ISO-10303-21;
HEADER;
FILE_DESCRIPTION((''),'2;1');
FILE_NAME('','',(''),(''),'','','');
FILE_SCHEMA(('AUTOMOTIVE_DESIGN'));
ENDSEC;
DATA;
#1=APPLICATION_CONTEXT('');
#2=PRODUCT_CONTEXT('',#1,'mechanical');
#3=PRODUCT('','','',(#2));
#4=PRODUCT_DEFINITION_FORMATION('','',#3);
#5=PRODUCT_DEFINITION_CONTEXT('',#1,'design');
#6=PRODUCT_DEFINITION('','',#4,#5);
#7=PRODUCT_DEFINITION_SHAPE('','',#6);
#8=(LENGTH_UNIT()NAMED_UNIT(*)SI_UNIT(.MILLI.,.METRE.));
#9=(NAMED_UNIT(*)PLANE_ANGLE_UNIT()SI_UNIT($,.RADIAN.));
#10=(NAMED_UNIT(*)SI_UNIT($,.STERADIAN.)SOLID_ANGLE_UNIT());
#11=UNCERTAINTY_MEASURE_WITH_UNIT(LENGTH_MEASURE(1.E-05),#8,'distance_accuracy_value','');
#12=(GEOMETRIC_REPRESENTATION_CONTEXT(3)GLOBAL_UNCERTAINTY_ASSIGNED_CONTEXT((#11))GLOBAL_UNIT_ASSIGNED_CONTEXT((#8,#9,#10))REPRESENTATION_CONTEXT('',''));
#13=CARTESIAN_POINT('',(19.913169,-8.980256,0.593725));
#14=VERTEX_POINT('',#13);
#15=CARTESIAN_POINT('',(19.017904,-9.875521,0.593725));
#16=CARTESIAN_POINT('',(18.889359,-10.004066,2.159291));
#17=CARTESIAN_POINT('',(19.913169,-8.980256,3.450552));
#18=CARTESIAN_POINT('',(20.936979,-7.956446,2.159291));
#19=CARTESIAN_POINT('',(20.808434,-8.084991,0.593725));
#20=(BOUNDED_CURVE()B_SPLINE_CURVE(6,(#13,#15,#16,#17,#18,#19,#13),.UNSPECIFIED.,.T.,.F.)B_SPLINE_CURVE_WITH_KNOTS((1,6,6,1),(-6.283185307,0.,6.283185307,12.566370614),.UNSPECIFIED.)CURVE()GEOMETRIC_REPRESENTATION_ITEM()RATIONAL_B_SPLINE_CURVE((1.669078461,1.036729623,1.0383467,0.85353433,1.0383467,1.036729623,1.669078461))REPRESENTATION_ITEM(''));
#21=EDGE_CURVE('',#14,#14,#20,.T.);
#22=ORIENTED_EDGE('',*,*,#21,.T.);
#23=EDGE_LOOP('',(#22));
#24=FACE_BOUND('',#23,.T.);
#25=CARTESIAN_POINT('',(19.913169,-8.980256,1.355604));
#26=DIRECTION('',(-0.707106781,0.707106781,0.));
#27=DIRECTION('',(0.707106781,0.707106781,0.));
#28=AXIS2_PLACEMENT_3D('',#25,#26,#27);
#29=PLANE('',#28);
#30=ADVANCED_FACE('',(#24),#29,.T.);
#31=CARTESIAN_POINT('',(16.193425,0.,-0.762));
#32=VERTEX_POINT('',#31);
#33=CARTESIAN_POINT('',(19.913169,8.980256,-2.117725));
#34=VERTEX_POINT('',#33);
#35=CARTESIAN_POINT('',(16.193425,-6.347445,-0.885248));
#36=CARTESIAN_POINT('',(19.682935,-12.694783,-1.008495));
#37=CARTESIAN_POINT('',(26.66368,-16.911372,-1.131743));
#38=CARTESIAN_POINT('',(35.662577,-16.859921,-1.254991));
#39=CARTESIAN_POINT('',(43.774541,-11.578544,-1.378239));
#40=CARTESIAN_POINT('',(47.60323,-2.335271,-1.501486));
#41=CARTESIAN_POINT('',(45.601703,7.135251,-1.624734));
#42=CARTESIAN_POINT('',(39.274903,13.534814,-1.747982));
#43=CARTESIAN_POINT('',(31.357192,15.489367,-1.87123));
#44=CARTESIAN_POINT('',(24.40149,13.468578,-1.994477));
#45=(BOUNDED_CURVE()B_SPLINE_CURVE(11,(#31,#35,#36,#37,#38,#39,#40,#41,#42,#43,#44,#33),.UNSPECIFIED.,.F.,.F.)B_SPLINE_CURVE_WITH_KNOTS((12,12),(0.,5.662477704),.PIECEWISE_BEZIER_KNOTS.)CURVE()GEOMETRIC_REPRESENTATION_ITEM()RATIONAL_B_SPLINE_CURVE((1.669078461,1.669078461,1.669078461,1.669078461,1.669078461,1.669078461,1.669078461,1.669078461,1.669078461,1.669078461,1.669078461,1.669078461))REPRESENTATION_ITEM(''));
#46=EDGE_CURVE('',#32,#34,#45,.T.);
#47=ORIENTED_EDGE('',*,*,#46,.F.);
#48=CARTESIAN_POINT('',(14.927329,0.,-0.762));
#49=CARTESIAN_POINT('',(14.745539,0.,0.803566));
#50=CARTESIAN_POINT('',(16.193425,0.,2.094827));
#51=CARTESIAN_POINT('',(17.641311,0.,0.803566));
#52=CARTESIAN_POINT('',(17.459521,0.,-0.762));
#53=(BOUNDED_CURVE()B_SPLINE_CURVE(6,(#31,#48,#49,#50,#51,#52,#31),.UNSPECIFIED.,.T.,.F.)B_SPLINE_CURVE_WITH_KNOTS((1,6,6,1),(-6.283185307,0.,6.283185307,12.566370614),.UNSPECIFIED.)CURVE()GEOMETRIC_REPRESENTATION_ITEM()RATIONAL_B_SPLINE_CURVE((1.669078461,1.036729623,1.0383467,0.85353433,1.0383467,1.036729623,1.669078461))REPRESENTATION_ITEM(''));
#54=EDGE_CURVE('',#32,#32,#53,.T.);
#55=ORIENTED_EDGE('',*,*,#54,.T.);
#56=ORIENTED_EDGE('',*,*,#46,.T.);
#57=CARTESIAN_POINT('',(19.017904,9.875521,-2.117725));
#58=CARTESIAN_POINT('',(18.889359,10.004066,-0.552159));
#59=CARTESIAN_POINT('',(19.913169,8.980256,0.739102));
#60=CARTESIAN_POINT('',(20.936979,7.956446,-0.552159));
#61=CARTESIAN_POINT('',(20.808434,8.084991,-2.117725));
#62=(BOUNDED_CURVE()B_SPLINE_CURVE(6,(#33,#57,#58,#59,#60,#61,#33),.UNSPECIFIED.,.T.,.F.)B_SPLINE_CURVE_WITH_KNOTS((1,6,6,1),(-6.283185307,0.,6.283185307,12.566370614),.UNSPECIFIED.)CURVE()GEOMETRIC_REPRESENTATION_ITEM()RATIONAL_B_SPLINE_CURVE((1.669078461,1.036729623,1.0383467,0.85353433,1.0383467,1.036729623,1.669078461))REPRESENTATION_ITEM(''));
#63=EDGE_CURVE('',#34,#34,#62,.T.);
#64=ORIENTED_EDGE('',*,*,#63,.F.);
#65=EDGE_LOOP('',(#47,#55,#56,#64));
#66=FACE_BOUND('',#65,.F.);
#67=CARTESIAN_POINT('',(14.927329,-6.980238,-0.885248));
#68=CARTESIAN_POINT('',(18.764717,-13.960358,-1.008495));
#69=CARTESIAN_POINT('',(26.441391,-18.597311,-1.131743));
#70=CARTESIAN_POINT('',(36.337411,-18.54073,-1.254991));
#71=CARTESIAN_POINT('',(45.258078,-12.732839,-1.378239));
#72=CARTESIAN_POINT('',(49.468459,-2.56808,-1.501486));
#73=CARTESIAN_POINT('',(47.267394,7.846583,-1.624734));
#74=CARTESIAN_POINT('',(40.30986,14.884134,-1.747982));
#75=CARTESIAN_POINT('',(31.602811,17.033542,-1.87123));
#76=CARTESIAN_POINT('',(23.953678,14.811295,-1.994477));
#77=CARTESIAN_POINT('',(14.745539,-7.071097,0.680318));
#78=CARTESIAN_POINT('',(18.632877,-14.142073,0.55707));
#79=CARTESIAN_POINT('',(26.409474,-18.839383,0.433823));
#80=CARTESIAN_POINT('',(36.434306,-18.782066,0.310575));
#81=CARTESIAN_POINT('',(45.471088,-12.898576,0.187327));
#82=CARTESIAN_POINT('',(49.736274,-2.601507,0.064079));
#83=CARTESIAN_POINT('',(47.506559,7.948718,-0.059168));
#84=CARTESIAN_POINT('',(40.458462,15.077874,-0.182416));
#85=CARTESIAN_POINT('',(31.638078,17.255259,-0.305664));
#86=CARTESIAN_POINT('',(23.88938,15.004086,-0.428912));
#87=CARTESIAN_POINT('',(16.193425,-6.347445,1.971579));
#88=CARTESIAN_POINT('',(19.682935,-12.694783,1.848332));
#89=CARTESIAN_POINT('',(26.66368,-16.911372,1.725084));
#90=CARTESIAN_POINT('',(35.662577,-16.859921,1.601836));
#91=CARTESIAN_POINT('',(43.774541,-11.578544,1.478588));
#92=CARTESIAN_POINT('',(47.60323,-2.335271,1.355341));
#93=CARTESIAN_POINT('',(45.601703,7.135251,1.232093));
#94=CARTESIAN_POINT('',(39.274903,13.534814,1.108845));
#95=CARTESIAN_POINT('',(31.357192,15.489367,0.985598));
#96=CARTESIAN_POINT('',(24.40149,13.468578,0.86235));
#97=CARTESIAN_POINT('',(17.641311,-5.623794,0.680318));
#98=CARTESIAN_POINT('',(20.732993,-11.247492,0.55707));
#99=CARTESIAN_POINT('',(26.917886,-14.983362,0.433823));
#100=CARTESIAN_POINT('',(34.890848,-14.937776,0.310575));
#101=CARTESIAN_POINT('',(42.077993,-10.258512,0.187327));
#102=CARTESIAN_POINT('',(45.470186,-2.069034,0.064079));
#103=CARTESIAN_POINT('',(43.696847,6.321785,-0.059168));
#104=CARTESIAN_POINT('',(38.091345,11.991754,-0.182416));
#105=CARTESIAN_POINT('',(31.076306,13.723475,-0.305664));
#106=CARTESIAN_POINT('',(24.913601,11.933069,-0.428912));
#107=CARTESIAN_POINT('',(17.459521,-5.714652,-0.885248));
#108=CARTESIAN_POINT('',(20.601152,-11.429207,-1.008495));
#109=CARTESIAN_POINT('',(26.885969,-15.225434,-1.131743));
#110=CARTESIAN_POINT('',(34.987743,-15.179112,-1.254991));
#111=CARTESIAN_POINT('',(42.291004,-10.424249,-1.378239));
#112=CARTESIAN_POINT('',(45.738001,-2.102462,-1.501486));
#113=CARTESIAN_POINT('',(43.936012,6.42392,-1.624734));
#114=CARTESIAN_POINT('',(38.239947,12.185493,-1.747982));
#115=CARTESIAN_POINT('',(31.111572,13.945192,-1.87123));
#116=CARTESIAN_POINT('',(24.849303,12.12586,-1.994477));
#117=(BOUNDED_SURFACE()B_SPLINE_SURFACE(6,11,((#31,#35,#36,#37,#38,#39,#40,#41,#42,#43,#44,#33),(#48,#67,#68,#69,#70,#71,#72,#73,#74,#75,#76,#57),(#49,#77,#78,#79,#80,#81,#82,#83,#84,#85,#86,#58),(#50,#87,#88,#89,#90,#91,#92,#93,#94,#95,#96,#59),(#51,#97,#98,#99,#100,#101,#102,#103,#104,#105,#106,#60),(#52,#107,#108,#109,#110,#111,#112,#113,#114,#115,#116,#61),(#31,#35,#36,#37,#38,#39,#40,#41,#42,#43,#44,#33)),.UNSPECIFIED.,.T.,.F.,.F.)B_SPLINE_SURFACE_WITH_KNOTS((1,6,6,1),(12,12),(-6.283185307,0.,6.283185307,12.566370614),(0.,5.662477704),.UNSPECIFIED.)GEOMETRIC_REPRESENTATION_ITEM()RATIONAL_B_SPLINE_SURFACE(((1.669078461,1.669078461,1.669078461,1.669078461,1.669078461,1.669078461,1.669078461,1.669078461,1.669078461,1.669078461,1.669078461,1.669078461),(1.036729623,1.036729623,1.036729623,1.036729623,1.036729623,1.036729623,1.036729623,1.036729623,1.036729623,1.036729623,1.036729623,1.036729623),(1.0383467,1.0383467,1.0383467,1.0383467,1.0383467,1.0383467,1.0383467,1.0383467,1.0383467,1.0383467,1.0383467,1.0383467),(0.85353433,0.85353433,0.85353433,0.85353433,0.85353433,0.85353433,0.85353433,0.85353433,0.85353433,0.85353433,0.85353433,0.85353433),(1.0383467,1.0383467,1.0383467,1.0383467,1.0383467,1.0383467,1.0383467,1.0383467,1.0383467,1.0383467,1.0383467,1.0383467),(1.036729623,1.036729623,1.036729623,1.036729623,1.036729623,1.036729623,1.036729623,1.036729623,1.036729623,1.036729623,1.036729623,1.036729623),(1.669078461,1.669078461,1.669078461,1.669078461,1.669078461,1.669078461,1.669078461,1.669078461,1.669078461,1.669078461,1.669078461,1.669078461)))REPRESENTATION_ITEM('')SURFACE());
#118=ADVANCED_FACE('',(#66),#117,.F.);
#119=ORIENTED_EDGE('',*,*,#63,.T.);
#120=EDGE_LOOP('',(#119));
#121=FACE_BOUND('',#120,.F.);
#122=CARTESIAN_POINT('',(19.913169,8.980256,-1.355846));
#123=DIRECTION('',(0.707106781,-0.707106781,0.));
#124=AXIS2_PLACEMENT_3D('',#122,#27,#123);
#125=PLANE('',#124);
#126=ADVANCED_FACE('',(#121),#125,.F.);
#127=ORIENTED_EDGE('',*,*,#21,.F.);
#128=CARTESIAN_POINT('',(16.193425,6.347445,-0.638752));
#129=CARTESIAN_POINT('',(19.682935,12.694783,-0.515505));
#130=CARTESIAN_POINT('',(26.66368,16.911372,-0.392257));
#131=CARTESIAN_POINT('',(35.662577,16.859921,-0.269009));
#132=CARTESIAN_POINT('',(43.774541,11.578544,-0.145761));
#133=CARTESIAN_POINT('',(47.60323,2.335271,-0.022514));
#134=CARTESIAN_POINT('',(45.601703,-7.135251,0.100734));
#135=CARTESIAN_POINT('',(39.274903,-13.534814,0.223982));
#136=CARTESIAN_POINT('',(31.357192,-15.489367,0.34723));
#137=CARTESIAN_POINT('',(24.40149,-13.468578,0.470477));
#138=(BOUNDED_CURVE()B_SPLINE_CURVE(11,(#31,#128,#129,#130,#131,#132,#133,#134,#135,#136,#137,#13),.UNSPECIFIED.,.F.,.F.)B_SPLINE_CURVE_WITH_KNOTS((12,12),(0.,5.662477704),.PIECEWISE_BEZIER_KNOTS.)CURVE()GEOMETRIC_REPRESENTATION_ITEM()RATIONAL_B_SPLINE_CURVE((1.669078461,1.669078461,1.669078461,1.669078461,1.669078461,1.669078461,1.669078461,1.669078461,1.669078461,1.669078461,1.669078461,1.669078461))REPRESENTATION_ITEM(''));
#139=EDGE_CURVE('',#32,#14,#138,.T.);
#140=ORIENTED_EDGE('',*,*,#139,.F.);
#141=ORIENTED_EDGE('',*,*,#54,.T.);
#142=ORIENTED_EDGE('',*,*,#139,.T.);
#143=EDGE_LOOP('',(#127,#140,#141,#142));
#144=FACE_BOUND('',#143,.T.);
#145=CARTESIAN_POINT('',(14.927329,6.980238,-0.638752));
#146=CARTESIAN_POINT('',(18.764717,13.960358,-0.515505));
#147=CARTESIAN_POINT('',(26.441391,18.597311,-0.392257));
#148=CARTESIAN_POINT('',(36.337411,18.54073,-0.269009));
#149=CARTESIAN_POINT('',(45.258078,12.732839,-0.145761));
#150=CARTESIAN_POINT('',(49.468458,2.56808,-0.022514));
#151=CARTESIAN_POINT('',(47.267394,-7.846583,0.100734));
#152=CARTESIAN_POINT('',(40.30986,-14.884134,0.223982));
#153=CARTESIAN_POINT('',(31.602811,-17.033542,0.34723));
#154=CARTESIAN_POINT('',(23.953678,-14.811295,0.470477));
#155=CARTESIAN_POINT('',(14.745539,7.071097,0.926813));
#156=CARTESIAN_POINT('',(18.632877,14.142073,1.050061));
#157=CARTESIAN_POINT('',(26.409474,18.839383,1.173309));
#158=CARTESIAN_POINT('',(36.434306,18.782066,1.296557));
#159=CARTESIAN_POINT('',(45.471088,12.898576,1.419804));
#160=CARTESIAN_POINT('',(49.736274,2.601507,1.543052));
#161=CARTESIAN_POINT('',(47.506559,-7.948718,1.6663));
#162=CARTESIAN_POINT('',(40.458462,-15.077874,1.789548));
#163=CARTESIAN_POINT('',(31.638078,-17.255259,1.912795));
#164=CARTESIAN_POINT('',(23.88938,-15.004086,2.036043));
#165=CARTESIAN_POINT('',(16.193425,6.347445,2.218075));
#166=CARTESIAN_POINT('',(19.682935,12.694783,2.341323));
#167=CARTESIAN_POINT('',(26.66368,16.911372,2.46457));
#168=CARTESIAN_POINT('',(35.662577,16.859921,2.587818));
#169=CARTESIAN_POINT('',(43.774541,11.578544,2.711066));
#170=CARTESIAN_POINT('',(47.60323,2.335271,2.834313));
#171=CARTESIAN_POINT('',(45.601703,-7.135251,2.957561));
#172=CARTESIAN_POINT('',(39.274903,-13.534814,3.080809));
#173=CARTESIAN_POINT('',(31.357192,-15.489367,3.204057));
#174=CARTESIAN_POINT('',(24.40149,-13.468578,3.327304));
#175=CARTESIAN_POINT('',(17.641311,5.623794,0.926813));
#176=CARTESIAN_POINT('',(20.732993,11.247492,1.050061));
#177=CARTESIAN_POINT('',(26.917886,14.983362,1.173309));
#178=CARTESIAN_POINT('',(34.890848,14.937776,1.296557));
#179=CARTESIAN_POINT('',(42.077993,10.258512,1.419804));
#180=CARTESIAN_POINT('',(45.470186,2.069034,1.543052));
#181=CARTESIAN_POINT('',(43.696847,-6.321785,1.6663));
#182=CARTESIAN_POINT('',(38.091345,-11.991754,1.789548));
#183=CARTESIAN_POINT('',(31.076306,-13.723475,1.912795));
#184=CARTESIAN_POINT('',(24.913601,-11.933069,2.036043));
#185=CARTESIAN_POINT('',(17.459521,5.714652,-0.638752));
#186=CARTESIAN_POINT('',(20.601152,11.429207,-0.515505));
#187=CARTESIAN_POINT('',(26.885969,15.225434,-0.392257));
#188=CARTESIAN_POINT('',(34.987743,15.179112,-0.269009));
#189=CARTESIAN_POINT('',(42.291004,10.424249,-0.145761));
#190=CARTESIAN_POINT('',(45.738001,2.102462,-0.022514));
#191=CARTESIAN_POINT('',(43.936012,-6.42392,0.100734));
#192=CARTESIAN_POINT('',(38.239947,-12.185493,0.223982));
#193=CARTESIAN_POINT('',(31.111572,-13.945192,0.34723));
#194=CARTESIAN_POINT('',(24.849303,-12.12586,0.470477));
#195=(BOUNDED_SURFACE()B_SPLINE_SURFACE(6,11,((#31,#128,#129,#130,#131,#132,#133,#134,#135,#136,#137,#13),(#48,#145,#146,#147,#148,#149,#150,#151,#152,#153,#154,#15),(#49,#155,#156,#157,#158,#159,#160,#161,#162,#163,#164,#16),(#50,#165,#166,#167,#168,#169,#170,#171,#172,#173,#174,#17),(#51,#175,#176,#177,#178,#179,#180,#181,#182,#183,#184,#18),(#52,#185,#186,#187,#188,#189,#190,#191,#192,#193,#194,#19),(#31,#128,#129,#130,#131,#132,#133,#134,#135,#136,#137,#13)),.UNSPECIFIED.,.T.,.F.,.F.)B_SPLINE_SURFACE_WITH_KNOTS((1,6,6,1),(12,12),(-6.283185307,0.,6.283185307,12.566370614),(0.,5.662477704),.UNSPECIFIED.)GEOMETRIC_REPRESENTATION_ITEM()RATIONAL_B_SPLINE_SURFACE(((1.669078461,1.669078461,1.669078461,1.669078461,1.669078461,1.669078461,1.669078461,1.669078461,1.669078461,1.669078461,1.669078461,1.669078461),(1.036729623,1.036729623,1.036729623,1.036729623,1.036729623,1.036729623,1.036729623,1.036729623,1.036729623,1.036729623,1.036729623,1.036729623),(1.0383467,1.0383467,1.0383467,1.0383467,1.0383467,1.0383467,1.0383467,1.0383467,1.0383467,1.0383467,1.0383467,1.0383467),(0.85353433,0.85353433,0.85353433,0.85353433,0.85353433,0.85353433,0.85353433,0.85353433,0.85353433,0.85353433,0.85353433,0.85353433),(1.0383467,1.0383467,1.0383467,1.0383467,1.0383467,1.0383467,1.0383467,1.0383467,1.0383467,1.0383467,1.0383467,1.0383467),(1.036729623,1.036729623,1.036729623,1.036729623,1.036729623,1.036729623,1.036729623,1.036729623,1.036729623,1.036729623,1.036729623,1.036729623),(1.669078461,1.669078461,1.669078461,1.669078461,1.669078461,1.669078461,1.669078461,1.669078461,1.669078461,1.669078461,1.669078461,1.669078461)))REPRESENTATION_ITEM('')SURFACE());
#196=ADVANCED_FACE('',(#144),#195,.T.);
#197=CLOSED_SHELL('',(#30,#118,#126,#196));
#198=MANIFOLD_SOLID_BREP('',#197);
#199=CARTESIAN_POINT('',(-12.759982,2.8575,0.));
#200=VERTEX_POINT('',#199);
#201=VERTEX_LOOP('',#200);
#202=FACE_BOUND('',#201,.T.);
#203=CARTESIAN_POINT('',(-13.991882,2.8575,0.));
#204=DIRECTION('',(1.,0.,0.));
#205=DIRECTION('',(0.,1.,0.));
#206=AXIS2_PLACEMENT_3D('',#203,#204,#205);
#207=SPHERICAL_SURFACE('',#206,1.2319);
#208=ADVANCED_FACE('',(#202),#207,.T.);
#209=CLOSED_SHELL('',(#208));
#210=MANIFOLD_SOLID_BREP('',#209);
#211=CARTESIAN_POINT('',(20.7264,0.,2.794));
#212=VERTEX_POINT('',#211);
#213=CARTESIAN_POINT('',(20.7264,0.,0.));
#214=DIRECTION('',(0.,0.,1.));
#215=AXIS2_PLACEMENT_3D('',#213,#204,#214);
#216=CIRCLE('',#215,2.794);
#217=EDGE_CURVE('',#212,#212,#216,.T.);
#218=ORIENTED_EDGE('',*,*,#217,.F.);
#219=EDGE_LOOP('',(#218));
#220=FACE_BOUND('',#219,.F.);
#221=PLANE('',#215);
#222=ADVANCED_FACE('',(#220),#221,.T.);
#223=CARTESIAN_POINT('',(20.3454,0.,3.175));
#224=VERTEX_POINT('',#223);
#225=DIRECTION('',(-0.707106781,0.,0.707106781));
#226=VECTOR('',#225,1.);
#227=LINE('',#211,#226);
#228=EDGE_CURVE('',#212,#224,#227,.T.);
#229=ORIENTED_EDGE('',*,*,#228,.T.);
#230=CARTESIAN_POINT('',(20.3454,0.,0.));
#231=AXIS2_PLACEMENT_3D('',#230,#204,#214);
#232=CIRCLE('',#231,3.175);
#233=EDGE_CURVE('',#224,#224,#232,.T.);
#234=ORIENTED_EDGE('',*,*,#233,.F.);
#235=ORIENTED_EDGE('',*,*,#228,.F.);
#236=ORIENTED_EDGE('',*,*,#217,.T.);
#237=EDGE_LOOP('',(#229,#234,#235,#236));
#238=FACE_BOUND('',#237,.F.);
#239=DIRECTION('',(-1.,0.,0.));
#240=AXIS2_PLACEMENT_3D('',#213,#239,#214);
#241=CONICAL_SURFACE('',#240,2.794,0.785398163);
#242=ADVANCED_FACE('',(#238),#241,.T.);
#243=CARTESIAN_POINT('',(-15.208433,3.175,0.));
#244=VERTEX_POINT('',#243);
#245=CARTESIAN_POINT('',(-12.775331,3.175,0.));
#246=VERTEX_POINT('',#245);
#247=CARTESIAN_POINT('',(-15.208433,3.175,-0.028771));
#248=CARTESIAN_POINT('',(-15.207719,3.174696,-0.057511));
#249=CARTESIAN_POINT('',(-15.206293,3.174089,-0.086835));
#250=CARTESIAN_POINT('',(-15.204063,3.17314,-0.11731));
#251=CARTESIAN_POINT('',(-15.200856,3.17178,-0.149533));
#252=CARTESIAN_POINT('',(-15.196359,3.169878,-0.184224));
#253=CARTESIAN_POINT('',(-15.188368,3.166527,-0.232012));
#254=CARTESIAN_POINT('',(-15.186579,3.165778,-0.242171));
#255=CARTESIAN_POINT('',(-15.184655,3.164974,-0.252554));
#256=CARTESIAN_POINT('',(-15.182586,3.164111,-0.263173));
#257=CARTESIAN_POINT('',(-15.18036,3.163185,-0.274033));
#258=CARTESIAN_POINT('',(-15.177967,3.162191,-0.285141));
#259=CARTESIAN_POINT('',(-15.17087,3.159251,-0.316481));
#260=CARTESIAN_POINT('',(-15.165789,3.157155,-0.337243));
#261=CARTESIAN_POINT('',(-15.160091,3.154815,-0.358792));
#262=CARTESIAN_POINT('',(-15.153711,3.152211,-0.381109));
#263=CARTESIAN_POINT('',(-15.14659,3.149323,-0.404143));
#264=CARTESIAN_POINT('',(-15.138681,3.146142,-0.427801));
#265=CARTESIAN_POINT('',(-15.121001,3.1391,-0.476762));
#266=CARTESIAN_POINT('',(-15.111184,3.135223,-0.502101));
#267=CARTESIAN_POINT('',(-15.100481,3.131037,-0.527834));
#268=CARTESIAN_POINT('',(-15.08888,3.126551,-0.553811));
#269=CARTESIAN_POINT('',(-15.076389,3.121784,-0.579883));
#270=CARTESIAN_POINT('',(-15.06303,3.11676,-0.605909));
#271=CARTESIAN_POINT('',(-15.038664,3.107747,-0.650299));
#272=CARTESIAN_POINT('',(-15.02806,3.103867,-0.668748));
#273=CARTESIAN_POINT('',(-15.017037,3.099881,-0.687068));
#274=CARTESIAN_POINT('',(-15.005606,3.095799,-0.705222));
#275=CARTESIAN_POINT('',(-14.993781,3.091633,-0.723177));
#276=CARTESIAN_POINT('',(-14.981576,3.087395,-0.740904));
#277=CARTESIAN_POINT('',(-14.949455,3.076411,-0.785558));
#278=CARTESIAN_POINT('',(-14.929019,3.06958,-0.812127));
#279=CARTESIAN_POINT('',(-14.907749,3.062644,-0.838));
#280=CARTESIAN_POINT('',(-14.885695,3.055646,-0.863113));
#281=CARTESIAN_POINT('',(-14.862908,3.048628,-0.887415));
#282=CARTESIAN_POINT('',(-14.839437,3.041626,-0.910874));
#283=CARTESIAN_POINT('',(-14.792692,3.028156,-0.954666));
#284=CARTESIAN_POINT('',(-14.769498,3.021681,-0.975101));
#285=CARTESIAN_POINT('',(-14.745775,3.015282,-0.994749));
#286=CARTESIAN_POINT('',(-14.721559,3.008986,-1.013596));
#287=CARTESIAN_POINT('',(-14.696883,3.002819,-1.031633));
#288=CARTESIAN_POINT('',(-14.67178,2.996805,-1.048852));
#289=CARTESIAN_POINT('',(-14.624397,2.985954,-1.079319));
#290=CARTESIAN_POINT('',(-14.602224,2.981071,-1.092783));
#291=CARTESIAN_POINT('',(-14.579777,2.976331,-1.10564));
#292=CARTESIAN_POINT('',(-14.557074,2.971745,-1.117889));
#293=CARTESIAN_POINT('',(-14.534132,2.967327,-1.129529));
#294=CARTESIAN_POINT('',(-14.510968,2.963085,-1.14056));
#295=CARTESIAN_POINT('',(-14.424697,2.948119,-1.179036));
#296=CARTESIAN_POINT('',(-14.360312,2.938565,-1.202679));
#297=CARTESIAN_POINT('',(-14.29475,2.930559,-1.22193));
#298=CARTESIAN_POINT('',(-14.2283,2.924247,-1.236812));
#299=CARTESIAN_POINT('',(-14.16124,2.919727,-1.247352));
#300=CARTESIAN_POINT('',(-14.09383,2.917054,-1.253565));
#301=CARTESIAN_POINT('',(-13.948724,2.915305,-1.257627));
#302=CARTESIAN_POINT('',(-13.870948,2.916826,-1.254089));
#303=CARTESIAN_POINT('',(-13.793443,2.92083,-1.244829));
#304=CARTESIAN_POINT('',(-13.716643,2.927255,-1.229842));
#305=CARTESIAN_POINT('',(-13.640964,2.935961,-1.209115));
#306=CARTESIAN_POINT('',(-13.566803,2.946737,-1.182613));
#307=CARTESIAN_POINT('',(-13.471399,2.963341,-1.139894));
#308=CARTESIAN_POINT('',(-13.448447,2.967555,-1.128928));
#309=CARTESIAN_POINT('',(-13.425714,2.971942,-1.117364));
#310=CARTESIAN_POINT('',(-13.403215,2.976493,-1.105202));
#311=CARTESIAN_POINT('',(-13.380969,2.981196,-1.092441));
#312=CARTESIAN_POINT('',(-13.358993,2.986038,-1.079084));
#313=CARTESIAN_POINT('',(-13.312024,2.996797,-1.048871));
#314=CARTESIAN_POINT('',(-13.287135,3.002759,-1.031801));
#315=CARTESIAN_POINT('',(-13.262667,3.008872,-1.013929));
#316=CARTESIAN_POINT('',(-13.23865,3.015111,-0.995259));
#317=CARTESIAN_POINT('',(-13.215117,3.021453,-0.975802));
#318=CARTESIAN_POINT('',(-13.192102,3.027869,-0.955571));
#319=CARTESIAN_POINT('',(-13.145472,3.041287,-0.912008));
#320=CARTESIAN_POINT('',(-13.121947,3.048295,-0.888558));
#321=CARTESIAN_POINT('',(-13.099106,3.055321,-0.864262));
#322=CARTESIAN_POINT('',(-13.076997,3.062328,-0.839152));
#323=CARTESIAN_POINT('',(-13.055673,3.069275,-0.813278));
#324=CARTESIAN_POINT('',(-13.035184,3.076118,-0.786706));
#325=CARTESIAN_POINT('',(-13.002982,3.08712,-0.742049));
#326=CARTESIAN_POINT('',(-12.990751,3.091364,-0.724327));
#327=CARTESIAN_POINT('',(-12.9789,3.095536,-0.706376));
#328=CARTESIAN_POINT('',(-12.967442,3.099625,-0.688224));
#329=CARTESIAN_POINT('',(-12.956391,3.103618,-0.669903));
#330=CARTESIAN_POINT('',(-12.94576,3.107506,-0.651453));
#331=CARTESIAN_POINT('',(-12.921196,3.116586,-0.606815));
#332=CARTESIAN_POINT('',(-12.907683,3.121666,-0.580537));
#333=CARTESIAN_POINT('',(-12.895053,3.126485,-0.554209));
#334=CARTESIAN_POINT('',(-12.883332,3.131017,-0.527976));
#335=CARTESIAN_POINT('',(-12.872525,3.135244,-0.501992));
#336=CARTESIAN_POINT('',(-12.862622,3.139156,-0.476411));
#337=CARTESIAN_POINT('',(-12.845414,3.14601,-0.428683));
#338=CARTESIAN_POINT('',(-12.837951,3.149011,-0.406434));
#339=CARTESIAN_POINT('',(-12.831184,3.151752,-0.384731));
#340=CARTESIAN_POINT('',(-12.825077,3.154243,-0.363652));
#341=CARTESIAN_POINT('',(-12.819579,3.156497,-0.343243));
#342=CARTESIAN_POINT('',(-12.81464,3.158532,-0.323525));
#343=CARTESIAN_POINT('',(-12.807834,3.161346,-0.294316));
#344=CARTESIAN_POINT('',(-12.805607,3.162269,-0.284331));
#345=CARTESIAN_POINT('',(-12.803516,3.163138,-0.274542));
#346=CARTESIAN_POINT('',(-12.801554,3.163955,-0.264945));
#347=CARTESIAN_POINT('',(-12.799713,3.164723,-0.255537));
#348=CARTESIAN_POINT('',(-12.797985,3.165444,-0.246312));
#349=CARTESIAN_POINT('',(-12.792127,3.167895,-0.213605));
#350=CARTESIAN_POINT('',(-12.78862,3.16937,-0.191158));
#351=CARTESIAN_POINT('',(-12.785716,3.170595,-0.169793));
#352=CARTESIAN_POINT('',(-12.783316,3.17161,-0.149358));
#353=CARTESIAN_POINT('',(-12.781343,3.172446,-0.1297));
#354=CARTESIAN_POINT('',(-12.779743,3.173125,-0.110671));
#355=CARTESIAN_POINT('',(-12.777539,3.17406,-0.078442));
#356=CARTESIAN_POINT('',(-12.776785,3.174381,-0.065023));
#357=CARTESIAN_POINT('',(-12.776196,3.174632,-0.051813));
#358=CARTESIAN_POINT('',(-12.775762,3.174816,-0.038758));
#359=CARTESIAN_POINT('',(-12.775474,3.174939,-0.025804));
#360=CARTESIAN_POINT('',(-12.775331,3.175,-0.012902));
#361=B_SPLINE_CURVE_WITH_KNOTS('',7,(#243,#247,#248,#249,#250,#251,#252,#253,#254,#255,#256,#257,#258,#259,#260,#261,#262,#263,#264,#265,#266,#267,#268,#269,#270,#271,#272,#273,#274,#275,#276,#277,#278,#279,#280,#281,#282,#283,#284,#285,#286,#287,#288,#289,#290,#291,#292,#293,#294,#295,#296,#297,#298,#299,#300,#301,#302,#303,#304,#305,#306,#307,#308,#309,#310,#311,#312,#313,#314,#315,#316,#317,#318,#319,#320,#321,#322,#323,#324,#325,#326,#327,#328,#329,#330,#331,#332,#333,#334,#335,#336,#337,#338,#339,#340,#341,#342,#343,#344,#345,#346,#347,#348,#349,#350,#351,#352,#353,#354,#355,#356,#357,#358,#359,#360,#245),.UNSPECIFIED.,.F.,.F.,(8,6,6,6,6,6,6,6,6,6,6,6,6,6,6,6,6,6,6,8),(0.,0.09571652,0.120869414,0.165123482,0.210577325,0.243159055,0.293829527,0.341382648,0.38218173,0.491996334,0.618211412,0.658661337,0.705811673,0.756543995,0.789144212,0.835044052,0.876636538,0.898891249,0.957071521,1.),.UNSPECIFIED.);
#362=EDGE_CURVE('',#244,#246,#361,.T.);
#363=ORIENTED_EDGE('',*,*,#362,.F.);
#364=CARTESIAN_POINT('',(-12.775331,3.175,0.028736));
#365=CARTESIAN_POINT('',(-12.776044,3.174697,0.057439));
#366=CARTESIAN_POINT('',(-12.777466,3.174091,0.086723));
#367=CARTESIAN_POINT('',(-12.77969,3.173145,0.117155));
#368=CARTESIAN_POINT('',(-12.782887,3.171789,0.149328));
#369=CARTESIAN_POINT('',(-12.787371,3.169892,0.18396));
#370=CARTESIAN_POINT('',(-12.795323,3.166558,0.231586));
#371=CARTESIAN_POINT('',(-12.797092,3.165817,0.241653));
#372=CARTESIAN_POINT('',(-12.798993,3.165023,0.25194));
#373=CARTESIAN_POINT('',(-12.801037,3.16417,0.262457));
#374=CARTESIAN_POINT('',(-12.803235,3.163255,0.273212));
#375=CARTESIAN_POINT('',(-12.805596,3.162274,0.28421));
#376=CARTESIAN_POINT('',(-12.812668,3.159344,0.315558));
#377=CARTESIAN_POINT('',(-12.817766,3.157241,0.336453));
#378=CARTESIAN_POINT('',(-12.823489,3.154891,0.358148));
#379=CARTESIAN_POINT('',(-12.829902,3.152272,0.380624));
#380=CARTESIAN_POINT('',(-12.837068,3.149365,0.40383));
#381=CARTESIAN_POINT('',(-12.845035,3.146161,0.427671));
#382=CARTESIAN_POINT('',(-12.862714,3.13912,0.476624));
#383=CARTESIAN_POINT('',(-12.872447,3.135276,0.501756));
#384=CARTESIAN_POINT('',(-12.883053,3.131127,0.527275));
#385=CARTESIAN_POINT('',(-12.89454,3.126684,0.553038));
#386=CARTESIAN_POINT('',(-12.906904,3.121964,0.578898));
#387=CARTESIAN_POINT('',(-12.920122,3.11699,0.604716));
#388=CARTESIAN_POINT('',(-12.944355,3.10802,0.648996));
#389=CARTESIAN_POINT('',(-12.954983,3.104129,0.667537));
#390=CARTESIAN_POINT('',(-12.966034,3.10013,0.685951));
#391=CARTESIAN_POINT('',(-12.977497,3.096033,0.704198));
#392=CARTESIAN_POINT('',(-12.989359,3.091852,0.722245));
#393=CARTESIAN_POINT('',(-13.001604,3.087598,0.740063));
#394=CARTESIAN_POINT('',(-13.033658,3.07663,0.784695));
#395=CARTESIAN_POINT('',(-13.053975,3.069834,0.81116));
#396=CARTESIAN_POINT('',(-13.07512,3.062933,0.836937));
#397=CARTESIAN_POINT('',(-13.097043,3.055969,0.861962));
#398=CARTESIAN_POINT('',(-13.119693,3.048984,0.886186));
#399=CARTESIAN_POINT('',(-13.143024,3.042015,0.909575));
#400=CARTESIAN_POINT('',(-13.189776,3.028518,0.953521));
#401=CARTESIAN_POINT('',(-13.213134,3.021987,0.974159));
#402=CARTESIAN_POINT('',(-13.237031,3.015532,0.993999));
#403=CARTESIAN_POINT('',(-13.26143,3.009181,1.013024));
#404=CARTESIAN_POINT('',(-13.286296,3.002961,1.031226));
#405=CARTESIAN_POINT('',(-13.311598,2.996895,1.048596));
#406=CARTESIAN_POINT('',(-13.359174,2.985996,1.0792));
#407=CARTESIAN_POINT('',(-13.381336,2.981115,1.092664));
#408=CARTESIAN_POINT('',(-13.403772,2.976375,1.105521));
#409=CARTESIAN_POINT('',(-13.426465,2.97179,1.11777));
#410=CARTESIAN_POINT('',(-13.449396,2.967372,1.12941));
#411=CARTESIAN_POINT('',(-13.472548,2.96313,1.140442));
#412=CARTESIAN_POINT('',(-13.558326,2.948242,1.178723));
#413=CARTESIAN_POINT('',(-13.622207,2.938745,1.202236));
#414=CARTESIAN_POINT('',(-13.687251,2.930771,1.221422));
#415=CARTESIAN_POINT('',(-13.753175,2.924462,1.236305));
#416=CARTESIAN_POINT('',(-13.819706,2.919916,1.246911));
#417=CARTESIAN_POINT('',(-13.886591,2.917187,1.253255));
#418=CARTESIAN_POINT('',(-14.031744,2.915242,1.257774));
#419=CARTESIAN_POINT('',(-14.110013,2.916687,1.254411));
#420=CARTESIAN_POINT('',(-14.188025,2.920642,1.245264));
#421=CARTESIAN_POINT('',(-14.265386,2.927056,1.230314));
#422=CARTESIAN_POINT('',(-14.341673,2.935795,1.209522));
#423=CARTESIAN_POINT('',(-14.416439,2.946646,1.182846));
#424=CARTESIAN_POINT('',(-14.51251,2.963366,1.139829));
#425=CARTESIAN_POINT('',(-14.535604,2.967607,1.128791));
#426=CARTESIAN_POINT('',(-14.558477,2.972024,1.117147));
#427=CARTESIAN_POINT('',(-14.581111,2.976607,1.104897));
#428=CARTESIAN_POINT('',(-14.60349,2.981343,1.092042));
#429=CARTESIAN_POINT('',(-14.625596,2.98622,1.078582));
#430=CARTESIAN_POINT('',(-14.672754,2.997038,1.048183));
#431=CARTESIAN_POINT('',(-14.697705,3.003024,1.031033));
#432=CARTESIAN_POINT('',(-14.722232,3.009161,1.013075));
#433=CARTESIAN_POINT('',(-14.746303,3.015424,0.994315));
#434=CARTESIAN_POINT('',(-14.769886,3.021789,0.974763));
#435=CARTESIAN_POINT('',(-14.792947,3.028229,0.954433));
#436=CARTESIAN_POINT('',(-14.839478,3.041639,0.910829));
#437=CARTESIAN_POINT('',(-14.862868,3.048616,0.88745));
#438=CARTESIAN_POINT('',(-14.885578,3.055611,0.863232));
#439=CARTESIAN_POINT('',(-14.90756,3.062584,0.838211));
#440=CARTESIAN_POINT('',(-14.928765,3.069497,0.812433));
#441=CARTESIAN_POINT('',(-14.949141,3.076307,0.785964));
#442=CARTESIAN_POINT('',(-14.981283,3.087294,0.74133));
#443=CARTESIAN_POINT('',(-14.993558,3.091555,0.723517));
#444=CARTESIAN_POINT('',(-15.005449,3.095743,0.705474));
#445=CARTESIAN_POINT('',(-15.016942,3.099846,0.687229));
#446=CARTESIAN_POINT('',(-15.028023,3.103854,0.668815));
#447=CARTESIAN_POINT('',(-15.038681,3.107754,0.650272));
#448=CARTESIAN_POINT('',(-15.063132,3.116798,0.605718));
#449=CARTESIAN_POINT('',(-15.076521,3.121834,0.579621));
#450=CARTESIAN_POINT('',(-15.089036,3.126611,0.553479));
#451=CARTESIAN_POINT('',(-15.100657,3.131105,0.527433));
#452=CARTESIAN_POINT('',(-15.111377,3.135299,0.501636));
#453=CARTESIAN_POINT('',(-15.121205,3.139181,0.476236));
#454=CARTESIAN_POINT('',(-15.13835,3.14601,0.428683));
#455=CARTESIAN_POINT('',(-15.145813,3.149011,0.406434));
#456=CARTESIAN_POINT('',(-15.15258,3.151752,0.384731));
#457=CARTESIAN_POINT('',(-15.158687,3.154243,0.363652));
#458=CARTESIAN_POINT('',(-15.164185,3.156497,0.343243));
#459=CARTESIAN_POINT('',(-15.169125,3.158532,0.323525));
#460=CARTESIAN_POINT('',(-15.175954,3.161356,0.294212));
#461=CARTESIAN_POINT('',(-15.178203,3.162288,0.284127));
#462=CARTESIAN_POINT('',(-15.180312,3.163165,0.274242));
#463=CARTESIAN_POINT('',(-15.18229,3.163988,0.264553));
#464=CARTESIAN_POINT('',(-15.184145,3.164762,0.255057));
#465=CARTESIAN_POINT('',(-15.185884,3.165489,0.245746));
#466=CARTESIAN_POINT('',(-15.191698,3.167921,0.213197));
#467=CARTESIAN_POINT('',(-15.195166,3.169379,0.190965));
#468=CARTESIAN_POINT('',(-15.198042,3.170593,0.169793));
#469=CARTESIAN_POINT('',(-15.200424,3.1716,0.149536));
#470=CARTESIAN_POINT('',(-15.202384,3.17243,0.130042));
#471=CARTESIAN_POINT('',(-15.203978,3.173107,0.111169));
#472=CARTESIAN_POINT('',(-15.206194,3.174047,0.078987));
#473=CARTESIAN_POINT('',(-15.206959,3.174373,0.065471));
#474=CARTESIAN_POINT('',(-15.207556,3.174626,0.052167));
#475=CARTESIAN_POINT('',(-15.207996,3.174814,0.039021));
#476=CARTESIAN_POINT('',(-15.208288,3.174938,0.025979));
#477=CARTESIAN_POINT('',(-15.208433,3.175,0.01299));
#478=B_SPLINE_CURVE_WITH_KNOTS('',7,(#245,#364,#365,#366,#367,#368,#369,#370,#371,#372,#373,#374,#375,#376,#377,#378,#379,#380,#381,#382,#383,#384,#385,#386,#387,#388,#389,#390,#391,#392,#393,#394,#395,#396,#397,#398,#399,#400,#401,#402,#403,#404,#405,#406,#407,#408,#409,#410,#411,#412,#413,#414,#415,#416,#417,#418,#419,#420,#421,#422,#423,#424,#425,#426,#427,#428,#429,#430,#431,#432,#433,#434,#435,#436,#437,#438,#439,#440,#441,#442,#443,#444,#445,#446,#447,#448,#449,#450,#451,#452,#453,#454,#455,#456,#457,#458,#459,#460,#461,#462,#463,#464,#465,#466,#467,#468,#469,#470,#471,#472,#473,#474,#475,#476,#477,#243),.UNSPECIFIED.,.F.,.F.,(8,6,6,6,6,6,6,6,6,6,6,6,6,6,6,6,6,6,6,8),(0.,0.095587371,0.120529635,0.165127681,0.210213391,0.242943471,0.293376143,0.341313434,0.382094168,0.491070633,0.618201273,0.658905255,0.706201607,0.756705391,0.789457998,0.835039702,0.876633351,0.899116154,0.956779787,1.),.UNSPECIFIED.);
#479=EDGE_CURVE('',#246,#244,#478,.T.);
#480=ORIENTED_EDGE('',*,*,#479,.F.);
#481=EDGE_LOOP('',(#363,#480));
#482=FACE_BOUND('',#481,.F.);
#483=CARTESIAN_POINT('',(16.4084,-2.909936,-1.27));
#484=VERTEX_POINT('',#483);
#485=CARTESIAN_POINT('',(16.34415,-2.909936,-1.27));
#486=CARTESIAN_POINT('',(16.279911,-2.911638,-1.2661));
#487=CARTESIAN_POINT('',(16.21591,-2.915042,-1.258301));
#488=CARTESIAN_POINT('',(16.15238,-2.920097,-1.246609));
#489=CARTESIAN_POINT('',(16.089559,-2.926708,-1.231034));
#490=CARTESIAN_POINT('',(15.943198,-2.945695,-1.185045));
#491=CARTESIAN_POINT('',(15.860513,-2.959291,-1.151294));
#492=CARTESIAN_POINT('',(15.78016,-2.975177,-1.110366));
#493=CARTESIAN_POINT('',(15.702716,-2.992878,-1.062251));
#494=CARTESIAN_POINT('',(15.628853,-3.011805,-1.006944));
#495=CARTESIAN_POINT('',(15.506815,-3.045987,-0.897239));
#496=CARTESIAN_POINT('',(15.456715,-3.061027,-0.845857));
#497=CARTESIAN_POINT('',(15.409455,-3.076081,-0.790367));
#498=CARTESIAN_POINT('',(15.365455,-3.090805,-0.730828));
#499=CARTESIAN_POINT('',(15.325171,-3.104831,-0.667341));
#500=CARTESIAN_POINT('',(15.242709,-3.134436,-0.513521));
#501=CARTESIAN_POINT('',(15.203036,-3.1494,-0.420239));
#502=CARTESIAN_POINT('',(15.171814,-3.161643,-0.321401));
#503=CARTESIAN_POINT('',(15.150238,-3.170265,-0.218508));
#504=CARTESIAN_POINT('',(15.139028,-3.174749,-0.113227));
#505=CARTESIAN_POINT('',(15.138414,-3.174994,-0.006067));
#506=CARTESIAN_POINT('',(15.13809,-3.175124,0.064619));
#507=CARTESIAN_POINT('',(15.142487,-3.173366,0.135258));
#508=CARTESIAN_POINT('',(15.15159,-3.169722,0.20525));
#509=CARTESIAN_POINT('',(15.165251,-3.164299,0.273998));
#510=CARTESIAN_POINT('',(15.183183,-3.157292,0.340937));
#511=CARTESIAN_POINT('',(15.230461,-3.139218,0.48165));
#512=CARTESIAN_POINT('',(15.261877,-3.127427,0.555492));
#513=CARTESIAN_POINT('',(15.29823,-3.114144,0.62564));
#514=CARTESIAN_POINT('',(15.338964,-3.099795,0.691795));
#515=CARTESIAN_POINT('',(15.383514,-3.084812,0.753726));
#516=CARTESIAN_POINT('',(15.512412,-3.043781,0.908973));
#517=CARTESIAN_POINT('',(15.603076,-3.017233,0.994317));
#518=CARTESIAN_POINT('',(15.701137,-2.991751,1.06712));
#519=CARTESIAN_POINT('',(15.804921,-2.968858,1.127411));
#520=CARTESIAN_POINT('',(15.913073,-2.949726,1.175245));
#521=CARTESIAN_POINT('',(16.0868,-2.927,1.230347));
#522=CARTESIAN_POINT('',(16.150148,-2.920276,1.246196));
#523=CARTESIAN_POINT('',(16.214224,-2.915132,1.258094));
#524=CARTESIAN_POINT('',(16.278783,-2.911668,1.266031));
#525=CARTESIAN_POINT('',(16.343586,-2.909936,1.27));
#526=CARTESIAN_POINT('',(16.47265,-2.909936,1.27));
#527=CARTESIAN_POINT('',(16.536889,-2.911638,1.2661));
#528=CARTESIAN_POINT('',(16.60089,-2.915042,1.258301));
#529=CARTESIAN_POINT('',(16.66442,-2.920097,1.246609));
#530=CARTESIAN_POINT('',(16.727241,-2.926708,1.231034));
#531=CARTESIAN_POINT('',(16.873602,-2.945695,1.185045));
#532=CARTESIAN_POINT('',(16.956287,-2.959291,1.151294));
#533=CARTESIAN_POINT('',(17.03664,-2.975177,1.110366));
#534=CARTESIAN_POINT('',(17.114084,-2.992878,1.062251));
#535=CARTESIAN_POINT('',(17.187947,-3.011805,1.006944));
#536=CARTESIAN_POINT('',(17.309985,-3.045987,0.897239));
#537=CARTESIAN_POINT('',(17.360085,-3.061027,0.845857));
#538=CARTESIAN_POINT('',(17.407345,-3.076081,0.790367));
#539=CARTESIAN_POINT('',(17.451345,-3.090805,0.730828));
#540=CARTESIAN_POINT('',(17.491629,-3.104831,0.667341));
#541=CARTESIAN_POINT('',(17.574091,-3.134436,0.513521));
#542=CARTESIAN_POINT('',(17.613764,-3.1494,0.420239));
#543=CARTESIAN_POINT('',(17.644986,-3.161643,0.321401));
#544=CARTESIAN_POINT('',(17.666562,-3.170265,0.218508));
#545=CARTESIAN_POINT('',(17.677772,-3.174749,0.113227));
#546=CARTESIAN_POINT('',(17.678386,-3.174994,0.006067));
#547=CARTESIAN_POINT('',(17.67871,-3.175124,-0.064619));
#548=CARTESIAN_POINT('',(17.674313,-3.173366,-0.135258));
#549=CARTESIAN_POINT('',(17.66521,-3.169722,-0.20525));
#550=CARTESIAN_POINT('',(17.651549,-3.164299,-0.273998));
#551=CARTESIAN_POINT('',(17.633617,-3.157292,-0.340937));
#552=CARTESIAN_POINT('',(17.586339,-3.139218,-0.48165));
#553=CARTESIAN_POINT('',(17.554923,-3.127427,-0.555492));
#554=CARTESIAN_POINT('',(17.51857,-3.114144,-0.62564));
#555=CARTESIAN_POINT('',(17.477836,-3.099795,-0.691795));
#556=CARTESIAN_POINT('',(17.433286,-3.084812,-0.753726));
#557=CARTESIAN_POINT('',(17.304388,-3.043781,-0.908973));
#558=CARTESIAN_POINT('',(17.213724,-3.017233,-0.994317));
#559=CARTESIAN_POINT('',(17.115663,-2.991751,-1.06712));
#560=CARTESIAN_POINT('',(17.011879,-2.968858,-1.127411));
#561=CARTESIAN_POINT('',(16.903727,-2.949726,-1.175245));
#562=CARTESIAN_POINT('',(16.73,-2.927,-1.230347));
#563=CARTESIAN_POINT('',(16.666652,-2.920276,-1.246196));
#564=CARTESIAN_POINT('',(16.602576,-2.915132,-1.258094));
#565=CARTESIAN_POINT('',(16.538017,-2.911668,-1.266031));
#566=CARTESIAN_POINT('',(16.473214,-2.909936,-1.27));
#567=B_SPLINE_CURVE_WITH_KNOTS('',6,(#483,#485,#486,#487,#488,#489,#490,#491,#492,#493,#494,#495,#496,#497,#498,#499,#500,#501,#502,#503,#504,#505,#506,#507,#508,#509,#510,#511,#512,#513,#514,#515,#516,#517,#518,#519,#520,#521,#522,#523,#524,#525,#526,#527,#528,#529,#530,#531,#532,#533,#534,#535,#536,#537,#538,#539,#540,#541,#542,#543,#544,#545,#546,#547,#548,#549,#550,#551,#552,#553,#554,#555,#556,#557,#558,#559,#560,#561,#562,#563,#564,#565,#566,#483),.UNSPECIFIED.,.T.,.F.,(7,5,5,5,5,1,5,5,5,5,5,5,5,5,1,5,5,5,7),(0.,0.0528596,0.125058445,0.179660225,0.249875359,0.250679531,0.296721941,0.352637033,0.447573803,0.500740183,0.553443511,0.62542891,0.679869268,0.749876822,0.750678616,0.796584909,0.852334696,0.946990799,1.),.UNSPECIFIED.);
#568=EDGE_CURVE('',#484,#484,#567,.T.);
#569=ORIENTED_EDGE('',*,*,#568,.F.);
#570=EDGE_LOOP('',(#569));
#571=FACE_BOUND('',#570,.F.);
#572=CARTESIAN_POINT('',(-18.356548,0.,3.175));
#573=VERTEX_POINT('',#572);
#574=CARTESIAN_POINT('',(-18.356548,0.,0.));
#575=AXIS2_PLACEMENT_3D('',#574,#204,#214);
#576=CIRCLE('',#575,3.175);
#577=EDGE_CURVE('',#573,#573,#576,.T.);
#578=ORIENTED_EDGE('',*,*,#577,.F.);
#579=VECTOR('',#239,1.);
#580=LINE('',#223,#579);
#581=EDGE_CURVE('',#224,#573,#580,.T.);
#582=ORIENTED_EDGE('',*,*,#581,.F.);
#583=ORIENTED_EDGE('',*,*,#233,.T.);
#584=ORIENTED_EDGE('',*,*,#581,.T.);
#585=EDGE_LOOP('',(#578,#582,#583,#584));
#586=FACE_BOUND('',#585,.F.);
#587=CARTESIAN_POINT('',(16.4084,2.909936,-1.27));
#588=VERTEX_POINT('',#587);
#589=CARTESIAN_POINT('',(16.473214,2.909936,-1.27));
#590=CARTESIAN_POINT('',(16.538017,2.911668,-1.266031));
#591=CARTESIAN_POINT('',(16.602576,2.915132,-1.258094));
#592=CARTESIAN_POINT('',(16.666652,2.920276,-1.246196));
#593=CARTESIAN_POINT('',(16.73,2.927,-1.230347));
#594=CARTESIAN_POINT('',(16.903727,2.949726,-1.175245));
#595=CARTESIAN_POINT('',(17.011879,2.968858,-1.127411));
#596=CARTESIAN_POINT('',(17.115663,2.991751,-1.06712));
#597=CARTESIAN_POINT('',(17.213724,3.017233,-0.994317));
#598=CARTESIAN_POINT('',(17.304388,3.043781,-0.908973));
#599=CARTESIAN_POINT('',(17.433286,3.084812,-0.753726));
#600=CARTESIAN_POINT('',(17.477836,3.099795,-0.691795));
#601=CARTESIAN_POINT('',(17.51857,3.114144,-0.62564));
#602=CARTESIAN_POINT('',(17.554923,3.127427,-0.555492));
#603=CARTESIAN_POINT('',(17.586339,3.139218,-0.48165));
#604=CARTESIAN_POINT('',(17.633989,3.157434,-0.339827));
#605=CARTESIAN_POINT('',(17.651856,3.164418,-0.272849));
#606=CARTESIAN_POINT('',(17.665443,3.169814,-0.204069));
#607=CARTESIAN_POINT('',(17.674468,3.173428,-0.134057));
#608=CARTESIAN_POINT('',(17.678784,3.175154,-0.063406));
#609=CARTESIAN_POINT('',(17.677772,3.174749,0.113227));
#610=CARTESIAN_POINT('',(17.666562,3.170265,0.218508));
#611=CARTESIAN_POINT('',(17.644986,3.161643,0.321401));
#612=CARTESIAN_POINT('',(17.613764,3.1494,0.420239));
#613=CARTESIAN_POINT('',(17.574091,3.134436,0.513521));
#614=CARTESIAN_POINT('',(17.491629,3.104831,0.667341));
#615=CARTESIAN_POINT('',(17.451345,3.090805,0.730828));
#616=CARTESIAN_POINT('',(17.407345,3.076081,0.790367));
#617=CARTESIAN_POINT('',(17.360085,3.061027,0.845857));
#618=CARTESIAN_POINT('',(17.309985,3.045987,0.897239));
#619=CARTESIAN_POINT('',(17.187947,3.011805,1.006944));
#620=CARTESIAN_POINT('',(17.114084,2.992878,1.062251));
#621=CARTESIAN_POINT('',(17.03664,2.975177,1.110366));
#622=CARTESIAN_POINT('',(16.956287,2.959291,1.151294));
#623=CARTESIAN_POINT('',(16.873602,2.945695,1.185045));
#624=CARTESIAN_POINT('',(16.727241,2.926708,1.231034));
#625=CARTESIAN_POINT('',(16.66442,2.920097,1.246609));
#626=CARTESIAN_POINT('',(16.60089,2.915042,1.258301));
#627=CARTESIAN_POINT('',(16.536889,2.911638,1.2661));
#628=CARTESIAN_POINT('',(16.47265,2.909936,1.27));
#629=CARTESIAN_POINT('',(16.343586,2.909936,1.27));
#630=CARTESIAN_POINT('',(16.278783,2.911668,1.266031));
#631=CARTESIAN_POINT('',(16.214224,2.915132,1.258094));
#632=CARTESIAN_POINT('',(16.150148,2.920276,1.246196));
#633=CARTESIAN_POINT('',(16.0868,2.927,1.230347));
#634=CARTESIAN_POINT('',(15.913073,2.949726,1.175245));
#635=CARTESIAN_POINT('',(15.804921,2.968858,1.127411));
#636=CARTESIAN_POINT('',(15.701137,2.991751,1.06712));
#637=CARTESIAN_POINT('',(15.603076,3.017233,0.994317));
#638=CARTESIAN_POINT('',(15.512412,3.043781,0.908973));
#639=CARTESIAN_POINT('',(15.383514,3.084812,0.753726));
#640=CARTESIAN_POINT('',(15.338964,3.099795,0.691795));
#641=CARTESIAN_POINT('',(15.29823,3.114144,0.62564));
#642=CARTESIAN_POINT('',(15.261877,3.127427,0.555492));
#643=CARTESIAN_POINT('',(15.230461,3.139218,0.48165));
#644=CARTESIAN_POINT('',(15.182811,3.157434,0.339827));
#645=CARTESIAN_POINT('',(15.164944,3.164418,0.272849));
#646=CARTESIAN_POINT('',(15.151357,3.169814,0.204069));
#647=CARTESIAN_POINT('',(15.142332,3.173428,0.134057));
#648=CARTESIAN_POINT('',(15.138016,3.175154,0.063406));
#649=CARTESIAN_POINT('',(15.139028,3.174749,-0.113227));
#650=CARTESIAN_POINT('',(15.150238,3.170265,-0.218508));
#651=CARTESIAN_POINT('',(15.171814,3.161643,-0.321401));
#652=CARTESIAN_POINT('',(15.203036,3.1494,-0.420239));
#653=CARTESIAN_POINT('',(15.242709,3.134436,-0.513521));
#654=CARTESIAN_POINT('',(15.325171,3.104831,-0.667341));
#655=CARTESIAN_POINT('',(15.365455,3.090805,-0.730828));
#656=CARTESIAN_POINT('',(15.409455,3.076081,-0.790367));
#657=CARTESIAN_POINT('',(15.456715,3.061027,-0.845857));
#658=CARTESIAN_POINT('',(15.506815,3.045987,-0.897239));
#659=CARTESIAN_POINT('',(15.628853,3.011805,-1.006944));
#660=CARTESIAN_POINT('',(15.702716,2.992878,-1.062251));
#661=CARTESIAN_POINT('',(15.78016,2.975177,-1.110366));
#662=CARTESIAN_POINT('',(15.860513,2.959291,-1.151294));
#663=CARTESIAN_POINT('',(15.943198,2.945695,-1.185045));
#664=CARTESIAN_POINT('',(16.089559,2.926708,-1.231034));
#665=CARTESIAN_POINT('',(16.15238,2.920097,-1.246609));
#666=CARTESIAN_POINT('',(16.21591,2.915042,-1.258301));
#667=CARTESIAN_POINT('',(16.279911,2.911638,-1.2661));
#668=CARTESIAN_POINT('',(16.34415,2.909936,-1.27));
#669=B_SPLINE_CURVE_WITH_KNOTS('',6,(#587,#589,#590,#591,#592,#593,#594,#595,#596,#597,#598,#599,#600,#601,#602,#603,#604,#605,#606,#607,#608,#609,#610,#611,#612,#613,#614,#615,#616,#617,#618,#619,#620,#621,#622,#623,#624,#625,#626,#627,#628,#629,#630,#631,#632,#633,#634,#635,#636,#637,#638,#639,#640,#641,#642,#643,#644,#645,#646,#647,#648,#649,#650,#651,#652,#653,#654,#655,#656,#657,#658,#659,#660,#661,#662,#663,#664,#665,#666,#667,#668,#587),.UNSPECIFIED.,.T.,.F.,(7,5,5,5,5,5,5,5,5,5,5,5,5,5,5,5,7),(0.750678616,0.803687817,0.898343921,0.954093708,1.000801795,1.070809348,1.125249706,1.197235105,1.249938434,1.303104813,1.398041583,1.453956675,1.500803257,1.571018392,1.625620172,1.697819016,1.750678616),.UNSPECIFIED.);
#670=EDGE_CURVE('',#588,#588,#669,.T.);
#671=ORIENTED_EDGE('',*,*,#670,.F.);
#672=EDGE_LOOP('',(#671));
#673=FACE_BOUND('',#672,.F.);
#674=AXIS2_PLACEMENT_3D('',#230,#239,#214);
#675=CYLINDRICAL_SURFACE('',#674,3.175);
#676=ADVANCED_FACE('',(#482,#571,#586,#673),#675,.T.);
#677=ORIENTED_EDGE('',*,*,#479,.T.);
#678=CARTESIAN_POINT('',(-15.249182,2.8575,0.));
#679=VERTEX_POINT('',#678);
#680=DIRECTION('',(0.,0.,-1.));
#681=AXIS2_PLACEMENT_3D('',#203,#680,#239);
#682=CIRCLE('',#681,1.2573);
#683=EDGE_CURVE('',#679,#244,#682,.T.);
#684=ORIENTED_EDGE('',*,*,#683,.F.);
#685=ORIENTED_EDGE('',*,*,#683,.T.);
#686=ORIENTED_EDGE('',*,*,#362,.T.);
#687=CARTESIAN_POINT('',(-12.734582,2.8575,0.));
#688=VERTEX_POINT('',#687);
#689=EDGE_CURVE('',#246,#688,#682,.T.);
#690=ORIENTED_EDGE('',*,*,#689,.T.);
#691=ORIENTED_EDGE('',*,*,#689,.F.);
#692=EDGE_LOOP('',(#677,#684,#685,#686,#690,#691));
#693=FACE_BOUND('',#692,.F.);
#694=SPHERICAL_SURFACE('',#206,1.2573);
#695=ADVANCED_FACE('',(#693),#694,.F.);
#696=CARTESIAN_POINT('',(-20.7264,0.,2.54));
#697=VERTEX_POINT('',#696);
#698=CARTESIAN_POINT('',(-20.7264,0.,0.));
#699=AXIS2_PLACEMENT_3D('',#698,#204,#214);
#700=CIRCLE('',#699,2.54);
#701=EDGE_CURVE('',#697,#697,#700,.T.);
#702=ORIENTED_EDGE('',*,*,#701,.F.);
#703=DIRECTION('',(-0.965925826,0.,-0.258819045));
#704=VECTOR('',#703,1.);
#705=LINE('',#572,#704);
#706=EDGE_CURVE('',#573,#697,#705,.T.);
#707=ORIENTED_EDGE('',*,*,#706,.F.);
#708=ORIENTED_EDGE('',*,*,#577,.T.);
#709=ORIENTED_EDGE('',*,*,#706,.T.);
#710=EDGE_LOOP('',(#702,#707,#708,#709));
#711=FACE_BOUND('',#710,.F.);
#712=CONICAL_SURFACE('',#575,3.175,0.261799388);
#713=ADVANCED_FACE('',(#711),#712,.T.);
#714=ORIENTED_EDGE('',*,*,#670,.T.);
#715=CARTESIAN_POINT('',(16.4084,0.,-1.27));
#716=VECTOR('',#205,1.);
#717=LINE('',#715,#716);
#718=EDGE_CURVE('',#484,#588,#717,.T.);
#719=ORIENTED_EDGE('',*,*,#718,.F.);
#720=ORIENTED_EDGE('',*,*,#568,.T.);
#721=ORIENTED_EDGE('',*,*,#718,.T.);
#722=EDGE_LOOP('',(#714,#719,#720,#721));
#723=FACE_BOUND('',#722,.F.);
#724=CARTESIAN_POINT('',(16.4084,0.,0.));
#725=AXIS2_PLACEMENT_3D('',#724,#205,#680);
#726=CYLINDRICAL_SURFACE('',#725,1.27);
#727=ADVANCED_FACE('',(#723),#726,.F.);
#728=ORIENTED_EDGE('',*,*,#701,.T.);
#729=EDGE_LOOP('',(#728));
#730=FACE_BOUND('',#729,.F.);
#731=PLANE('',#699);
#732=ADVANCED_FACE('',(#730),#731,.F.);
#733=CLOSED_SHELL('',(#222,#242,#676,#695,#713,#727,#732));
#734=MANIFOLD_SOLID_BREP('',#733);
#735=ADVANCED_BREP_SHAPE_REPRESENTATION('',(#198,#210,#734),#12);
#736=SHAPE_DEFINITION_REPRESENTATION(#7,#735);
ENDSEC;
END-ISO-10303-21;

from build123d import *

# Parameters (mm, degrees)
SKETCH4_W          = 1.27
SKETCH4_H          = 6.35
SWEEP1_PITCH       = 1.5494
SWEEP1_HEIGHT      = 1.355725
SWEEP1_RADIUS      = 13.462
SKETCH6_R          = 0.762
SWEEP2_PITCH       = 1.5494
SWEEP2_HEIGHT      = 1.355725
SWEEP2_RADIUS      = 13.462
SWEEP2_START_ANGLE = -180
SKETCH6_2_R        = 0.762


with BuildPart() as part:
    # Sketch1 → Revolve1 (revolve)
    with BuildSketch(Plane.XY, mode=Mode.PRIVATE) as revolve1_sk:
        Polygon((20.7264, 2.794), (20.3454, 3.175), (-18.356547737, 3.175), (-20.7264, 2.54), (-20.7264, 0), (20.7264, 0), align=None)
    revolve(revolve1_sk.sketch.rotate(Axis((20.7264, 0, 0), (1, 0, 0)), 90), axis=Axis((20.7264, 0, 0), (1, 0, 0)))

    # Sketch2 → Cut-Revolve1 (revolve, cut)
    with BuildSketch(Plane.XY):
        with BuildLine():
            Line((-12.734582051, 2.8575), (-15.249182051, 2.8575))
            ThreePointArc((-15.249182051, 2.8575), (-13.991882051, 4.1148), (-12.734582051, 2.8575))
        make_face()
    revolve(axis=Axis((-12.734582051, 2.8575, 0), (1, 0, 0)), mode=Mode.SUBTRACT)

    # Sketch4 → Cut-Revolve2 (revolve, cut)
    with BuildSketch(Plane.XY, mode=Mode.PRIVATE) as cut_revolve2_sk:
        with Locations((17.0434, 0)):
            Rectangle(SKETCH4_W, SKETCH4_H)
    revolve(cut_revolve2_sk.sketch.rotate(Axis((16.4084, -3.175, 0), (0, 1, 0)), 90), axis=Axis((16.4084, -3.175, 0), (0, 1, 0)), mode=Mode.SUBTRACT)


with BuildPart() as body_2:
    # Sketch3 → Revolve2 (revolve)
    with BuildSketch(Plane.XY):
        with BuildLine():
            Line((-12.759982051, 2.8575), (-15.223782051, 2.8575))
            ThreePointArc((-15.223782051, 2.8575), (-13.991882051, 4.0894), (-12.759982051, 2.8575))
        make_face()
    revolve(axis=Axis((-12.759982051, 2.8575, 0), (1, 0, 0)))


with BuildPart() as body_3:
    # Sweep1: sweep along a helix
    with BuildLine() as sweep1_path:
        Helix(SWEEP1_PITCH, SWEEP1_HEIGHT, SWEEP1_RADIUS, center=(28.893425091, 0, 0), direction=(0, 0, -1), lefthand=True)
    # Sketch6 → Sweep1 (sweep)
    with BuildSketch(Plane(origin=(114.003847968, 0, 0), x_dir=(0, 0, -1), z_dir=(0, 1, 0))):
        with Locations((0, 97.810422877)):
            Circle(SKETCH6_R)
    sweep(path=sweep1_path.line, is_frenet=True)

    # Sweep2: sweep along a helix
    with BuildLine() as sweep2_path:
        add(Helix(SWEEP2_PITCH, SWEEP2_HEIGHT, SWEEP2_RADIUS, center=(28.893425091, 0, 0), direction=(0, 0, 1), lefthand=True, mode=Mode.PRIVATE).rotate(Axis((28.893425091, 0, 0), (0, 0, 1)), SWEEP2_START_ANGLE))
    # Sketch6<2> → Sweep2 (sweep)
    with BuildSketch(Plane(origin=(114.003847968, 0, 0), x_dir=(0, 0, -1), z_dir=(0, 1, 0))):
        with Locations((0, 97.810422877)):
            Circle(SKETCH6_2_R)
    sweep(path=sweep2_path.line, is_frenet=True)


solid = Compound([part.part, body_2.part, body_3.part])
